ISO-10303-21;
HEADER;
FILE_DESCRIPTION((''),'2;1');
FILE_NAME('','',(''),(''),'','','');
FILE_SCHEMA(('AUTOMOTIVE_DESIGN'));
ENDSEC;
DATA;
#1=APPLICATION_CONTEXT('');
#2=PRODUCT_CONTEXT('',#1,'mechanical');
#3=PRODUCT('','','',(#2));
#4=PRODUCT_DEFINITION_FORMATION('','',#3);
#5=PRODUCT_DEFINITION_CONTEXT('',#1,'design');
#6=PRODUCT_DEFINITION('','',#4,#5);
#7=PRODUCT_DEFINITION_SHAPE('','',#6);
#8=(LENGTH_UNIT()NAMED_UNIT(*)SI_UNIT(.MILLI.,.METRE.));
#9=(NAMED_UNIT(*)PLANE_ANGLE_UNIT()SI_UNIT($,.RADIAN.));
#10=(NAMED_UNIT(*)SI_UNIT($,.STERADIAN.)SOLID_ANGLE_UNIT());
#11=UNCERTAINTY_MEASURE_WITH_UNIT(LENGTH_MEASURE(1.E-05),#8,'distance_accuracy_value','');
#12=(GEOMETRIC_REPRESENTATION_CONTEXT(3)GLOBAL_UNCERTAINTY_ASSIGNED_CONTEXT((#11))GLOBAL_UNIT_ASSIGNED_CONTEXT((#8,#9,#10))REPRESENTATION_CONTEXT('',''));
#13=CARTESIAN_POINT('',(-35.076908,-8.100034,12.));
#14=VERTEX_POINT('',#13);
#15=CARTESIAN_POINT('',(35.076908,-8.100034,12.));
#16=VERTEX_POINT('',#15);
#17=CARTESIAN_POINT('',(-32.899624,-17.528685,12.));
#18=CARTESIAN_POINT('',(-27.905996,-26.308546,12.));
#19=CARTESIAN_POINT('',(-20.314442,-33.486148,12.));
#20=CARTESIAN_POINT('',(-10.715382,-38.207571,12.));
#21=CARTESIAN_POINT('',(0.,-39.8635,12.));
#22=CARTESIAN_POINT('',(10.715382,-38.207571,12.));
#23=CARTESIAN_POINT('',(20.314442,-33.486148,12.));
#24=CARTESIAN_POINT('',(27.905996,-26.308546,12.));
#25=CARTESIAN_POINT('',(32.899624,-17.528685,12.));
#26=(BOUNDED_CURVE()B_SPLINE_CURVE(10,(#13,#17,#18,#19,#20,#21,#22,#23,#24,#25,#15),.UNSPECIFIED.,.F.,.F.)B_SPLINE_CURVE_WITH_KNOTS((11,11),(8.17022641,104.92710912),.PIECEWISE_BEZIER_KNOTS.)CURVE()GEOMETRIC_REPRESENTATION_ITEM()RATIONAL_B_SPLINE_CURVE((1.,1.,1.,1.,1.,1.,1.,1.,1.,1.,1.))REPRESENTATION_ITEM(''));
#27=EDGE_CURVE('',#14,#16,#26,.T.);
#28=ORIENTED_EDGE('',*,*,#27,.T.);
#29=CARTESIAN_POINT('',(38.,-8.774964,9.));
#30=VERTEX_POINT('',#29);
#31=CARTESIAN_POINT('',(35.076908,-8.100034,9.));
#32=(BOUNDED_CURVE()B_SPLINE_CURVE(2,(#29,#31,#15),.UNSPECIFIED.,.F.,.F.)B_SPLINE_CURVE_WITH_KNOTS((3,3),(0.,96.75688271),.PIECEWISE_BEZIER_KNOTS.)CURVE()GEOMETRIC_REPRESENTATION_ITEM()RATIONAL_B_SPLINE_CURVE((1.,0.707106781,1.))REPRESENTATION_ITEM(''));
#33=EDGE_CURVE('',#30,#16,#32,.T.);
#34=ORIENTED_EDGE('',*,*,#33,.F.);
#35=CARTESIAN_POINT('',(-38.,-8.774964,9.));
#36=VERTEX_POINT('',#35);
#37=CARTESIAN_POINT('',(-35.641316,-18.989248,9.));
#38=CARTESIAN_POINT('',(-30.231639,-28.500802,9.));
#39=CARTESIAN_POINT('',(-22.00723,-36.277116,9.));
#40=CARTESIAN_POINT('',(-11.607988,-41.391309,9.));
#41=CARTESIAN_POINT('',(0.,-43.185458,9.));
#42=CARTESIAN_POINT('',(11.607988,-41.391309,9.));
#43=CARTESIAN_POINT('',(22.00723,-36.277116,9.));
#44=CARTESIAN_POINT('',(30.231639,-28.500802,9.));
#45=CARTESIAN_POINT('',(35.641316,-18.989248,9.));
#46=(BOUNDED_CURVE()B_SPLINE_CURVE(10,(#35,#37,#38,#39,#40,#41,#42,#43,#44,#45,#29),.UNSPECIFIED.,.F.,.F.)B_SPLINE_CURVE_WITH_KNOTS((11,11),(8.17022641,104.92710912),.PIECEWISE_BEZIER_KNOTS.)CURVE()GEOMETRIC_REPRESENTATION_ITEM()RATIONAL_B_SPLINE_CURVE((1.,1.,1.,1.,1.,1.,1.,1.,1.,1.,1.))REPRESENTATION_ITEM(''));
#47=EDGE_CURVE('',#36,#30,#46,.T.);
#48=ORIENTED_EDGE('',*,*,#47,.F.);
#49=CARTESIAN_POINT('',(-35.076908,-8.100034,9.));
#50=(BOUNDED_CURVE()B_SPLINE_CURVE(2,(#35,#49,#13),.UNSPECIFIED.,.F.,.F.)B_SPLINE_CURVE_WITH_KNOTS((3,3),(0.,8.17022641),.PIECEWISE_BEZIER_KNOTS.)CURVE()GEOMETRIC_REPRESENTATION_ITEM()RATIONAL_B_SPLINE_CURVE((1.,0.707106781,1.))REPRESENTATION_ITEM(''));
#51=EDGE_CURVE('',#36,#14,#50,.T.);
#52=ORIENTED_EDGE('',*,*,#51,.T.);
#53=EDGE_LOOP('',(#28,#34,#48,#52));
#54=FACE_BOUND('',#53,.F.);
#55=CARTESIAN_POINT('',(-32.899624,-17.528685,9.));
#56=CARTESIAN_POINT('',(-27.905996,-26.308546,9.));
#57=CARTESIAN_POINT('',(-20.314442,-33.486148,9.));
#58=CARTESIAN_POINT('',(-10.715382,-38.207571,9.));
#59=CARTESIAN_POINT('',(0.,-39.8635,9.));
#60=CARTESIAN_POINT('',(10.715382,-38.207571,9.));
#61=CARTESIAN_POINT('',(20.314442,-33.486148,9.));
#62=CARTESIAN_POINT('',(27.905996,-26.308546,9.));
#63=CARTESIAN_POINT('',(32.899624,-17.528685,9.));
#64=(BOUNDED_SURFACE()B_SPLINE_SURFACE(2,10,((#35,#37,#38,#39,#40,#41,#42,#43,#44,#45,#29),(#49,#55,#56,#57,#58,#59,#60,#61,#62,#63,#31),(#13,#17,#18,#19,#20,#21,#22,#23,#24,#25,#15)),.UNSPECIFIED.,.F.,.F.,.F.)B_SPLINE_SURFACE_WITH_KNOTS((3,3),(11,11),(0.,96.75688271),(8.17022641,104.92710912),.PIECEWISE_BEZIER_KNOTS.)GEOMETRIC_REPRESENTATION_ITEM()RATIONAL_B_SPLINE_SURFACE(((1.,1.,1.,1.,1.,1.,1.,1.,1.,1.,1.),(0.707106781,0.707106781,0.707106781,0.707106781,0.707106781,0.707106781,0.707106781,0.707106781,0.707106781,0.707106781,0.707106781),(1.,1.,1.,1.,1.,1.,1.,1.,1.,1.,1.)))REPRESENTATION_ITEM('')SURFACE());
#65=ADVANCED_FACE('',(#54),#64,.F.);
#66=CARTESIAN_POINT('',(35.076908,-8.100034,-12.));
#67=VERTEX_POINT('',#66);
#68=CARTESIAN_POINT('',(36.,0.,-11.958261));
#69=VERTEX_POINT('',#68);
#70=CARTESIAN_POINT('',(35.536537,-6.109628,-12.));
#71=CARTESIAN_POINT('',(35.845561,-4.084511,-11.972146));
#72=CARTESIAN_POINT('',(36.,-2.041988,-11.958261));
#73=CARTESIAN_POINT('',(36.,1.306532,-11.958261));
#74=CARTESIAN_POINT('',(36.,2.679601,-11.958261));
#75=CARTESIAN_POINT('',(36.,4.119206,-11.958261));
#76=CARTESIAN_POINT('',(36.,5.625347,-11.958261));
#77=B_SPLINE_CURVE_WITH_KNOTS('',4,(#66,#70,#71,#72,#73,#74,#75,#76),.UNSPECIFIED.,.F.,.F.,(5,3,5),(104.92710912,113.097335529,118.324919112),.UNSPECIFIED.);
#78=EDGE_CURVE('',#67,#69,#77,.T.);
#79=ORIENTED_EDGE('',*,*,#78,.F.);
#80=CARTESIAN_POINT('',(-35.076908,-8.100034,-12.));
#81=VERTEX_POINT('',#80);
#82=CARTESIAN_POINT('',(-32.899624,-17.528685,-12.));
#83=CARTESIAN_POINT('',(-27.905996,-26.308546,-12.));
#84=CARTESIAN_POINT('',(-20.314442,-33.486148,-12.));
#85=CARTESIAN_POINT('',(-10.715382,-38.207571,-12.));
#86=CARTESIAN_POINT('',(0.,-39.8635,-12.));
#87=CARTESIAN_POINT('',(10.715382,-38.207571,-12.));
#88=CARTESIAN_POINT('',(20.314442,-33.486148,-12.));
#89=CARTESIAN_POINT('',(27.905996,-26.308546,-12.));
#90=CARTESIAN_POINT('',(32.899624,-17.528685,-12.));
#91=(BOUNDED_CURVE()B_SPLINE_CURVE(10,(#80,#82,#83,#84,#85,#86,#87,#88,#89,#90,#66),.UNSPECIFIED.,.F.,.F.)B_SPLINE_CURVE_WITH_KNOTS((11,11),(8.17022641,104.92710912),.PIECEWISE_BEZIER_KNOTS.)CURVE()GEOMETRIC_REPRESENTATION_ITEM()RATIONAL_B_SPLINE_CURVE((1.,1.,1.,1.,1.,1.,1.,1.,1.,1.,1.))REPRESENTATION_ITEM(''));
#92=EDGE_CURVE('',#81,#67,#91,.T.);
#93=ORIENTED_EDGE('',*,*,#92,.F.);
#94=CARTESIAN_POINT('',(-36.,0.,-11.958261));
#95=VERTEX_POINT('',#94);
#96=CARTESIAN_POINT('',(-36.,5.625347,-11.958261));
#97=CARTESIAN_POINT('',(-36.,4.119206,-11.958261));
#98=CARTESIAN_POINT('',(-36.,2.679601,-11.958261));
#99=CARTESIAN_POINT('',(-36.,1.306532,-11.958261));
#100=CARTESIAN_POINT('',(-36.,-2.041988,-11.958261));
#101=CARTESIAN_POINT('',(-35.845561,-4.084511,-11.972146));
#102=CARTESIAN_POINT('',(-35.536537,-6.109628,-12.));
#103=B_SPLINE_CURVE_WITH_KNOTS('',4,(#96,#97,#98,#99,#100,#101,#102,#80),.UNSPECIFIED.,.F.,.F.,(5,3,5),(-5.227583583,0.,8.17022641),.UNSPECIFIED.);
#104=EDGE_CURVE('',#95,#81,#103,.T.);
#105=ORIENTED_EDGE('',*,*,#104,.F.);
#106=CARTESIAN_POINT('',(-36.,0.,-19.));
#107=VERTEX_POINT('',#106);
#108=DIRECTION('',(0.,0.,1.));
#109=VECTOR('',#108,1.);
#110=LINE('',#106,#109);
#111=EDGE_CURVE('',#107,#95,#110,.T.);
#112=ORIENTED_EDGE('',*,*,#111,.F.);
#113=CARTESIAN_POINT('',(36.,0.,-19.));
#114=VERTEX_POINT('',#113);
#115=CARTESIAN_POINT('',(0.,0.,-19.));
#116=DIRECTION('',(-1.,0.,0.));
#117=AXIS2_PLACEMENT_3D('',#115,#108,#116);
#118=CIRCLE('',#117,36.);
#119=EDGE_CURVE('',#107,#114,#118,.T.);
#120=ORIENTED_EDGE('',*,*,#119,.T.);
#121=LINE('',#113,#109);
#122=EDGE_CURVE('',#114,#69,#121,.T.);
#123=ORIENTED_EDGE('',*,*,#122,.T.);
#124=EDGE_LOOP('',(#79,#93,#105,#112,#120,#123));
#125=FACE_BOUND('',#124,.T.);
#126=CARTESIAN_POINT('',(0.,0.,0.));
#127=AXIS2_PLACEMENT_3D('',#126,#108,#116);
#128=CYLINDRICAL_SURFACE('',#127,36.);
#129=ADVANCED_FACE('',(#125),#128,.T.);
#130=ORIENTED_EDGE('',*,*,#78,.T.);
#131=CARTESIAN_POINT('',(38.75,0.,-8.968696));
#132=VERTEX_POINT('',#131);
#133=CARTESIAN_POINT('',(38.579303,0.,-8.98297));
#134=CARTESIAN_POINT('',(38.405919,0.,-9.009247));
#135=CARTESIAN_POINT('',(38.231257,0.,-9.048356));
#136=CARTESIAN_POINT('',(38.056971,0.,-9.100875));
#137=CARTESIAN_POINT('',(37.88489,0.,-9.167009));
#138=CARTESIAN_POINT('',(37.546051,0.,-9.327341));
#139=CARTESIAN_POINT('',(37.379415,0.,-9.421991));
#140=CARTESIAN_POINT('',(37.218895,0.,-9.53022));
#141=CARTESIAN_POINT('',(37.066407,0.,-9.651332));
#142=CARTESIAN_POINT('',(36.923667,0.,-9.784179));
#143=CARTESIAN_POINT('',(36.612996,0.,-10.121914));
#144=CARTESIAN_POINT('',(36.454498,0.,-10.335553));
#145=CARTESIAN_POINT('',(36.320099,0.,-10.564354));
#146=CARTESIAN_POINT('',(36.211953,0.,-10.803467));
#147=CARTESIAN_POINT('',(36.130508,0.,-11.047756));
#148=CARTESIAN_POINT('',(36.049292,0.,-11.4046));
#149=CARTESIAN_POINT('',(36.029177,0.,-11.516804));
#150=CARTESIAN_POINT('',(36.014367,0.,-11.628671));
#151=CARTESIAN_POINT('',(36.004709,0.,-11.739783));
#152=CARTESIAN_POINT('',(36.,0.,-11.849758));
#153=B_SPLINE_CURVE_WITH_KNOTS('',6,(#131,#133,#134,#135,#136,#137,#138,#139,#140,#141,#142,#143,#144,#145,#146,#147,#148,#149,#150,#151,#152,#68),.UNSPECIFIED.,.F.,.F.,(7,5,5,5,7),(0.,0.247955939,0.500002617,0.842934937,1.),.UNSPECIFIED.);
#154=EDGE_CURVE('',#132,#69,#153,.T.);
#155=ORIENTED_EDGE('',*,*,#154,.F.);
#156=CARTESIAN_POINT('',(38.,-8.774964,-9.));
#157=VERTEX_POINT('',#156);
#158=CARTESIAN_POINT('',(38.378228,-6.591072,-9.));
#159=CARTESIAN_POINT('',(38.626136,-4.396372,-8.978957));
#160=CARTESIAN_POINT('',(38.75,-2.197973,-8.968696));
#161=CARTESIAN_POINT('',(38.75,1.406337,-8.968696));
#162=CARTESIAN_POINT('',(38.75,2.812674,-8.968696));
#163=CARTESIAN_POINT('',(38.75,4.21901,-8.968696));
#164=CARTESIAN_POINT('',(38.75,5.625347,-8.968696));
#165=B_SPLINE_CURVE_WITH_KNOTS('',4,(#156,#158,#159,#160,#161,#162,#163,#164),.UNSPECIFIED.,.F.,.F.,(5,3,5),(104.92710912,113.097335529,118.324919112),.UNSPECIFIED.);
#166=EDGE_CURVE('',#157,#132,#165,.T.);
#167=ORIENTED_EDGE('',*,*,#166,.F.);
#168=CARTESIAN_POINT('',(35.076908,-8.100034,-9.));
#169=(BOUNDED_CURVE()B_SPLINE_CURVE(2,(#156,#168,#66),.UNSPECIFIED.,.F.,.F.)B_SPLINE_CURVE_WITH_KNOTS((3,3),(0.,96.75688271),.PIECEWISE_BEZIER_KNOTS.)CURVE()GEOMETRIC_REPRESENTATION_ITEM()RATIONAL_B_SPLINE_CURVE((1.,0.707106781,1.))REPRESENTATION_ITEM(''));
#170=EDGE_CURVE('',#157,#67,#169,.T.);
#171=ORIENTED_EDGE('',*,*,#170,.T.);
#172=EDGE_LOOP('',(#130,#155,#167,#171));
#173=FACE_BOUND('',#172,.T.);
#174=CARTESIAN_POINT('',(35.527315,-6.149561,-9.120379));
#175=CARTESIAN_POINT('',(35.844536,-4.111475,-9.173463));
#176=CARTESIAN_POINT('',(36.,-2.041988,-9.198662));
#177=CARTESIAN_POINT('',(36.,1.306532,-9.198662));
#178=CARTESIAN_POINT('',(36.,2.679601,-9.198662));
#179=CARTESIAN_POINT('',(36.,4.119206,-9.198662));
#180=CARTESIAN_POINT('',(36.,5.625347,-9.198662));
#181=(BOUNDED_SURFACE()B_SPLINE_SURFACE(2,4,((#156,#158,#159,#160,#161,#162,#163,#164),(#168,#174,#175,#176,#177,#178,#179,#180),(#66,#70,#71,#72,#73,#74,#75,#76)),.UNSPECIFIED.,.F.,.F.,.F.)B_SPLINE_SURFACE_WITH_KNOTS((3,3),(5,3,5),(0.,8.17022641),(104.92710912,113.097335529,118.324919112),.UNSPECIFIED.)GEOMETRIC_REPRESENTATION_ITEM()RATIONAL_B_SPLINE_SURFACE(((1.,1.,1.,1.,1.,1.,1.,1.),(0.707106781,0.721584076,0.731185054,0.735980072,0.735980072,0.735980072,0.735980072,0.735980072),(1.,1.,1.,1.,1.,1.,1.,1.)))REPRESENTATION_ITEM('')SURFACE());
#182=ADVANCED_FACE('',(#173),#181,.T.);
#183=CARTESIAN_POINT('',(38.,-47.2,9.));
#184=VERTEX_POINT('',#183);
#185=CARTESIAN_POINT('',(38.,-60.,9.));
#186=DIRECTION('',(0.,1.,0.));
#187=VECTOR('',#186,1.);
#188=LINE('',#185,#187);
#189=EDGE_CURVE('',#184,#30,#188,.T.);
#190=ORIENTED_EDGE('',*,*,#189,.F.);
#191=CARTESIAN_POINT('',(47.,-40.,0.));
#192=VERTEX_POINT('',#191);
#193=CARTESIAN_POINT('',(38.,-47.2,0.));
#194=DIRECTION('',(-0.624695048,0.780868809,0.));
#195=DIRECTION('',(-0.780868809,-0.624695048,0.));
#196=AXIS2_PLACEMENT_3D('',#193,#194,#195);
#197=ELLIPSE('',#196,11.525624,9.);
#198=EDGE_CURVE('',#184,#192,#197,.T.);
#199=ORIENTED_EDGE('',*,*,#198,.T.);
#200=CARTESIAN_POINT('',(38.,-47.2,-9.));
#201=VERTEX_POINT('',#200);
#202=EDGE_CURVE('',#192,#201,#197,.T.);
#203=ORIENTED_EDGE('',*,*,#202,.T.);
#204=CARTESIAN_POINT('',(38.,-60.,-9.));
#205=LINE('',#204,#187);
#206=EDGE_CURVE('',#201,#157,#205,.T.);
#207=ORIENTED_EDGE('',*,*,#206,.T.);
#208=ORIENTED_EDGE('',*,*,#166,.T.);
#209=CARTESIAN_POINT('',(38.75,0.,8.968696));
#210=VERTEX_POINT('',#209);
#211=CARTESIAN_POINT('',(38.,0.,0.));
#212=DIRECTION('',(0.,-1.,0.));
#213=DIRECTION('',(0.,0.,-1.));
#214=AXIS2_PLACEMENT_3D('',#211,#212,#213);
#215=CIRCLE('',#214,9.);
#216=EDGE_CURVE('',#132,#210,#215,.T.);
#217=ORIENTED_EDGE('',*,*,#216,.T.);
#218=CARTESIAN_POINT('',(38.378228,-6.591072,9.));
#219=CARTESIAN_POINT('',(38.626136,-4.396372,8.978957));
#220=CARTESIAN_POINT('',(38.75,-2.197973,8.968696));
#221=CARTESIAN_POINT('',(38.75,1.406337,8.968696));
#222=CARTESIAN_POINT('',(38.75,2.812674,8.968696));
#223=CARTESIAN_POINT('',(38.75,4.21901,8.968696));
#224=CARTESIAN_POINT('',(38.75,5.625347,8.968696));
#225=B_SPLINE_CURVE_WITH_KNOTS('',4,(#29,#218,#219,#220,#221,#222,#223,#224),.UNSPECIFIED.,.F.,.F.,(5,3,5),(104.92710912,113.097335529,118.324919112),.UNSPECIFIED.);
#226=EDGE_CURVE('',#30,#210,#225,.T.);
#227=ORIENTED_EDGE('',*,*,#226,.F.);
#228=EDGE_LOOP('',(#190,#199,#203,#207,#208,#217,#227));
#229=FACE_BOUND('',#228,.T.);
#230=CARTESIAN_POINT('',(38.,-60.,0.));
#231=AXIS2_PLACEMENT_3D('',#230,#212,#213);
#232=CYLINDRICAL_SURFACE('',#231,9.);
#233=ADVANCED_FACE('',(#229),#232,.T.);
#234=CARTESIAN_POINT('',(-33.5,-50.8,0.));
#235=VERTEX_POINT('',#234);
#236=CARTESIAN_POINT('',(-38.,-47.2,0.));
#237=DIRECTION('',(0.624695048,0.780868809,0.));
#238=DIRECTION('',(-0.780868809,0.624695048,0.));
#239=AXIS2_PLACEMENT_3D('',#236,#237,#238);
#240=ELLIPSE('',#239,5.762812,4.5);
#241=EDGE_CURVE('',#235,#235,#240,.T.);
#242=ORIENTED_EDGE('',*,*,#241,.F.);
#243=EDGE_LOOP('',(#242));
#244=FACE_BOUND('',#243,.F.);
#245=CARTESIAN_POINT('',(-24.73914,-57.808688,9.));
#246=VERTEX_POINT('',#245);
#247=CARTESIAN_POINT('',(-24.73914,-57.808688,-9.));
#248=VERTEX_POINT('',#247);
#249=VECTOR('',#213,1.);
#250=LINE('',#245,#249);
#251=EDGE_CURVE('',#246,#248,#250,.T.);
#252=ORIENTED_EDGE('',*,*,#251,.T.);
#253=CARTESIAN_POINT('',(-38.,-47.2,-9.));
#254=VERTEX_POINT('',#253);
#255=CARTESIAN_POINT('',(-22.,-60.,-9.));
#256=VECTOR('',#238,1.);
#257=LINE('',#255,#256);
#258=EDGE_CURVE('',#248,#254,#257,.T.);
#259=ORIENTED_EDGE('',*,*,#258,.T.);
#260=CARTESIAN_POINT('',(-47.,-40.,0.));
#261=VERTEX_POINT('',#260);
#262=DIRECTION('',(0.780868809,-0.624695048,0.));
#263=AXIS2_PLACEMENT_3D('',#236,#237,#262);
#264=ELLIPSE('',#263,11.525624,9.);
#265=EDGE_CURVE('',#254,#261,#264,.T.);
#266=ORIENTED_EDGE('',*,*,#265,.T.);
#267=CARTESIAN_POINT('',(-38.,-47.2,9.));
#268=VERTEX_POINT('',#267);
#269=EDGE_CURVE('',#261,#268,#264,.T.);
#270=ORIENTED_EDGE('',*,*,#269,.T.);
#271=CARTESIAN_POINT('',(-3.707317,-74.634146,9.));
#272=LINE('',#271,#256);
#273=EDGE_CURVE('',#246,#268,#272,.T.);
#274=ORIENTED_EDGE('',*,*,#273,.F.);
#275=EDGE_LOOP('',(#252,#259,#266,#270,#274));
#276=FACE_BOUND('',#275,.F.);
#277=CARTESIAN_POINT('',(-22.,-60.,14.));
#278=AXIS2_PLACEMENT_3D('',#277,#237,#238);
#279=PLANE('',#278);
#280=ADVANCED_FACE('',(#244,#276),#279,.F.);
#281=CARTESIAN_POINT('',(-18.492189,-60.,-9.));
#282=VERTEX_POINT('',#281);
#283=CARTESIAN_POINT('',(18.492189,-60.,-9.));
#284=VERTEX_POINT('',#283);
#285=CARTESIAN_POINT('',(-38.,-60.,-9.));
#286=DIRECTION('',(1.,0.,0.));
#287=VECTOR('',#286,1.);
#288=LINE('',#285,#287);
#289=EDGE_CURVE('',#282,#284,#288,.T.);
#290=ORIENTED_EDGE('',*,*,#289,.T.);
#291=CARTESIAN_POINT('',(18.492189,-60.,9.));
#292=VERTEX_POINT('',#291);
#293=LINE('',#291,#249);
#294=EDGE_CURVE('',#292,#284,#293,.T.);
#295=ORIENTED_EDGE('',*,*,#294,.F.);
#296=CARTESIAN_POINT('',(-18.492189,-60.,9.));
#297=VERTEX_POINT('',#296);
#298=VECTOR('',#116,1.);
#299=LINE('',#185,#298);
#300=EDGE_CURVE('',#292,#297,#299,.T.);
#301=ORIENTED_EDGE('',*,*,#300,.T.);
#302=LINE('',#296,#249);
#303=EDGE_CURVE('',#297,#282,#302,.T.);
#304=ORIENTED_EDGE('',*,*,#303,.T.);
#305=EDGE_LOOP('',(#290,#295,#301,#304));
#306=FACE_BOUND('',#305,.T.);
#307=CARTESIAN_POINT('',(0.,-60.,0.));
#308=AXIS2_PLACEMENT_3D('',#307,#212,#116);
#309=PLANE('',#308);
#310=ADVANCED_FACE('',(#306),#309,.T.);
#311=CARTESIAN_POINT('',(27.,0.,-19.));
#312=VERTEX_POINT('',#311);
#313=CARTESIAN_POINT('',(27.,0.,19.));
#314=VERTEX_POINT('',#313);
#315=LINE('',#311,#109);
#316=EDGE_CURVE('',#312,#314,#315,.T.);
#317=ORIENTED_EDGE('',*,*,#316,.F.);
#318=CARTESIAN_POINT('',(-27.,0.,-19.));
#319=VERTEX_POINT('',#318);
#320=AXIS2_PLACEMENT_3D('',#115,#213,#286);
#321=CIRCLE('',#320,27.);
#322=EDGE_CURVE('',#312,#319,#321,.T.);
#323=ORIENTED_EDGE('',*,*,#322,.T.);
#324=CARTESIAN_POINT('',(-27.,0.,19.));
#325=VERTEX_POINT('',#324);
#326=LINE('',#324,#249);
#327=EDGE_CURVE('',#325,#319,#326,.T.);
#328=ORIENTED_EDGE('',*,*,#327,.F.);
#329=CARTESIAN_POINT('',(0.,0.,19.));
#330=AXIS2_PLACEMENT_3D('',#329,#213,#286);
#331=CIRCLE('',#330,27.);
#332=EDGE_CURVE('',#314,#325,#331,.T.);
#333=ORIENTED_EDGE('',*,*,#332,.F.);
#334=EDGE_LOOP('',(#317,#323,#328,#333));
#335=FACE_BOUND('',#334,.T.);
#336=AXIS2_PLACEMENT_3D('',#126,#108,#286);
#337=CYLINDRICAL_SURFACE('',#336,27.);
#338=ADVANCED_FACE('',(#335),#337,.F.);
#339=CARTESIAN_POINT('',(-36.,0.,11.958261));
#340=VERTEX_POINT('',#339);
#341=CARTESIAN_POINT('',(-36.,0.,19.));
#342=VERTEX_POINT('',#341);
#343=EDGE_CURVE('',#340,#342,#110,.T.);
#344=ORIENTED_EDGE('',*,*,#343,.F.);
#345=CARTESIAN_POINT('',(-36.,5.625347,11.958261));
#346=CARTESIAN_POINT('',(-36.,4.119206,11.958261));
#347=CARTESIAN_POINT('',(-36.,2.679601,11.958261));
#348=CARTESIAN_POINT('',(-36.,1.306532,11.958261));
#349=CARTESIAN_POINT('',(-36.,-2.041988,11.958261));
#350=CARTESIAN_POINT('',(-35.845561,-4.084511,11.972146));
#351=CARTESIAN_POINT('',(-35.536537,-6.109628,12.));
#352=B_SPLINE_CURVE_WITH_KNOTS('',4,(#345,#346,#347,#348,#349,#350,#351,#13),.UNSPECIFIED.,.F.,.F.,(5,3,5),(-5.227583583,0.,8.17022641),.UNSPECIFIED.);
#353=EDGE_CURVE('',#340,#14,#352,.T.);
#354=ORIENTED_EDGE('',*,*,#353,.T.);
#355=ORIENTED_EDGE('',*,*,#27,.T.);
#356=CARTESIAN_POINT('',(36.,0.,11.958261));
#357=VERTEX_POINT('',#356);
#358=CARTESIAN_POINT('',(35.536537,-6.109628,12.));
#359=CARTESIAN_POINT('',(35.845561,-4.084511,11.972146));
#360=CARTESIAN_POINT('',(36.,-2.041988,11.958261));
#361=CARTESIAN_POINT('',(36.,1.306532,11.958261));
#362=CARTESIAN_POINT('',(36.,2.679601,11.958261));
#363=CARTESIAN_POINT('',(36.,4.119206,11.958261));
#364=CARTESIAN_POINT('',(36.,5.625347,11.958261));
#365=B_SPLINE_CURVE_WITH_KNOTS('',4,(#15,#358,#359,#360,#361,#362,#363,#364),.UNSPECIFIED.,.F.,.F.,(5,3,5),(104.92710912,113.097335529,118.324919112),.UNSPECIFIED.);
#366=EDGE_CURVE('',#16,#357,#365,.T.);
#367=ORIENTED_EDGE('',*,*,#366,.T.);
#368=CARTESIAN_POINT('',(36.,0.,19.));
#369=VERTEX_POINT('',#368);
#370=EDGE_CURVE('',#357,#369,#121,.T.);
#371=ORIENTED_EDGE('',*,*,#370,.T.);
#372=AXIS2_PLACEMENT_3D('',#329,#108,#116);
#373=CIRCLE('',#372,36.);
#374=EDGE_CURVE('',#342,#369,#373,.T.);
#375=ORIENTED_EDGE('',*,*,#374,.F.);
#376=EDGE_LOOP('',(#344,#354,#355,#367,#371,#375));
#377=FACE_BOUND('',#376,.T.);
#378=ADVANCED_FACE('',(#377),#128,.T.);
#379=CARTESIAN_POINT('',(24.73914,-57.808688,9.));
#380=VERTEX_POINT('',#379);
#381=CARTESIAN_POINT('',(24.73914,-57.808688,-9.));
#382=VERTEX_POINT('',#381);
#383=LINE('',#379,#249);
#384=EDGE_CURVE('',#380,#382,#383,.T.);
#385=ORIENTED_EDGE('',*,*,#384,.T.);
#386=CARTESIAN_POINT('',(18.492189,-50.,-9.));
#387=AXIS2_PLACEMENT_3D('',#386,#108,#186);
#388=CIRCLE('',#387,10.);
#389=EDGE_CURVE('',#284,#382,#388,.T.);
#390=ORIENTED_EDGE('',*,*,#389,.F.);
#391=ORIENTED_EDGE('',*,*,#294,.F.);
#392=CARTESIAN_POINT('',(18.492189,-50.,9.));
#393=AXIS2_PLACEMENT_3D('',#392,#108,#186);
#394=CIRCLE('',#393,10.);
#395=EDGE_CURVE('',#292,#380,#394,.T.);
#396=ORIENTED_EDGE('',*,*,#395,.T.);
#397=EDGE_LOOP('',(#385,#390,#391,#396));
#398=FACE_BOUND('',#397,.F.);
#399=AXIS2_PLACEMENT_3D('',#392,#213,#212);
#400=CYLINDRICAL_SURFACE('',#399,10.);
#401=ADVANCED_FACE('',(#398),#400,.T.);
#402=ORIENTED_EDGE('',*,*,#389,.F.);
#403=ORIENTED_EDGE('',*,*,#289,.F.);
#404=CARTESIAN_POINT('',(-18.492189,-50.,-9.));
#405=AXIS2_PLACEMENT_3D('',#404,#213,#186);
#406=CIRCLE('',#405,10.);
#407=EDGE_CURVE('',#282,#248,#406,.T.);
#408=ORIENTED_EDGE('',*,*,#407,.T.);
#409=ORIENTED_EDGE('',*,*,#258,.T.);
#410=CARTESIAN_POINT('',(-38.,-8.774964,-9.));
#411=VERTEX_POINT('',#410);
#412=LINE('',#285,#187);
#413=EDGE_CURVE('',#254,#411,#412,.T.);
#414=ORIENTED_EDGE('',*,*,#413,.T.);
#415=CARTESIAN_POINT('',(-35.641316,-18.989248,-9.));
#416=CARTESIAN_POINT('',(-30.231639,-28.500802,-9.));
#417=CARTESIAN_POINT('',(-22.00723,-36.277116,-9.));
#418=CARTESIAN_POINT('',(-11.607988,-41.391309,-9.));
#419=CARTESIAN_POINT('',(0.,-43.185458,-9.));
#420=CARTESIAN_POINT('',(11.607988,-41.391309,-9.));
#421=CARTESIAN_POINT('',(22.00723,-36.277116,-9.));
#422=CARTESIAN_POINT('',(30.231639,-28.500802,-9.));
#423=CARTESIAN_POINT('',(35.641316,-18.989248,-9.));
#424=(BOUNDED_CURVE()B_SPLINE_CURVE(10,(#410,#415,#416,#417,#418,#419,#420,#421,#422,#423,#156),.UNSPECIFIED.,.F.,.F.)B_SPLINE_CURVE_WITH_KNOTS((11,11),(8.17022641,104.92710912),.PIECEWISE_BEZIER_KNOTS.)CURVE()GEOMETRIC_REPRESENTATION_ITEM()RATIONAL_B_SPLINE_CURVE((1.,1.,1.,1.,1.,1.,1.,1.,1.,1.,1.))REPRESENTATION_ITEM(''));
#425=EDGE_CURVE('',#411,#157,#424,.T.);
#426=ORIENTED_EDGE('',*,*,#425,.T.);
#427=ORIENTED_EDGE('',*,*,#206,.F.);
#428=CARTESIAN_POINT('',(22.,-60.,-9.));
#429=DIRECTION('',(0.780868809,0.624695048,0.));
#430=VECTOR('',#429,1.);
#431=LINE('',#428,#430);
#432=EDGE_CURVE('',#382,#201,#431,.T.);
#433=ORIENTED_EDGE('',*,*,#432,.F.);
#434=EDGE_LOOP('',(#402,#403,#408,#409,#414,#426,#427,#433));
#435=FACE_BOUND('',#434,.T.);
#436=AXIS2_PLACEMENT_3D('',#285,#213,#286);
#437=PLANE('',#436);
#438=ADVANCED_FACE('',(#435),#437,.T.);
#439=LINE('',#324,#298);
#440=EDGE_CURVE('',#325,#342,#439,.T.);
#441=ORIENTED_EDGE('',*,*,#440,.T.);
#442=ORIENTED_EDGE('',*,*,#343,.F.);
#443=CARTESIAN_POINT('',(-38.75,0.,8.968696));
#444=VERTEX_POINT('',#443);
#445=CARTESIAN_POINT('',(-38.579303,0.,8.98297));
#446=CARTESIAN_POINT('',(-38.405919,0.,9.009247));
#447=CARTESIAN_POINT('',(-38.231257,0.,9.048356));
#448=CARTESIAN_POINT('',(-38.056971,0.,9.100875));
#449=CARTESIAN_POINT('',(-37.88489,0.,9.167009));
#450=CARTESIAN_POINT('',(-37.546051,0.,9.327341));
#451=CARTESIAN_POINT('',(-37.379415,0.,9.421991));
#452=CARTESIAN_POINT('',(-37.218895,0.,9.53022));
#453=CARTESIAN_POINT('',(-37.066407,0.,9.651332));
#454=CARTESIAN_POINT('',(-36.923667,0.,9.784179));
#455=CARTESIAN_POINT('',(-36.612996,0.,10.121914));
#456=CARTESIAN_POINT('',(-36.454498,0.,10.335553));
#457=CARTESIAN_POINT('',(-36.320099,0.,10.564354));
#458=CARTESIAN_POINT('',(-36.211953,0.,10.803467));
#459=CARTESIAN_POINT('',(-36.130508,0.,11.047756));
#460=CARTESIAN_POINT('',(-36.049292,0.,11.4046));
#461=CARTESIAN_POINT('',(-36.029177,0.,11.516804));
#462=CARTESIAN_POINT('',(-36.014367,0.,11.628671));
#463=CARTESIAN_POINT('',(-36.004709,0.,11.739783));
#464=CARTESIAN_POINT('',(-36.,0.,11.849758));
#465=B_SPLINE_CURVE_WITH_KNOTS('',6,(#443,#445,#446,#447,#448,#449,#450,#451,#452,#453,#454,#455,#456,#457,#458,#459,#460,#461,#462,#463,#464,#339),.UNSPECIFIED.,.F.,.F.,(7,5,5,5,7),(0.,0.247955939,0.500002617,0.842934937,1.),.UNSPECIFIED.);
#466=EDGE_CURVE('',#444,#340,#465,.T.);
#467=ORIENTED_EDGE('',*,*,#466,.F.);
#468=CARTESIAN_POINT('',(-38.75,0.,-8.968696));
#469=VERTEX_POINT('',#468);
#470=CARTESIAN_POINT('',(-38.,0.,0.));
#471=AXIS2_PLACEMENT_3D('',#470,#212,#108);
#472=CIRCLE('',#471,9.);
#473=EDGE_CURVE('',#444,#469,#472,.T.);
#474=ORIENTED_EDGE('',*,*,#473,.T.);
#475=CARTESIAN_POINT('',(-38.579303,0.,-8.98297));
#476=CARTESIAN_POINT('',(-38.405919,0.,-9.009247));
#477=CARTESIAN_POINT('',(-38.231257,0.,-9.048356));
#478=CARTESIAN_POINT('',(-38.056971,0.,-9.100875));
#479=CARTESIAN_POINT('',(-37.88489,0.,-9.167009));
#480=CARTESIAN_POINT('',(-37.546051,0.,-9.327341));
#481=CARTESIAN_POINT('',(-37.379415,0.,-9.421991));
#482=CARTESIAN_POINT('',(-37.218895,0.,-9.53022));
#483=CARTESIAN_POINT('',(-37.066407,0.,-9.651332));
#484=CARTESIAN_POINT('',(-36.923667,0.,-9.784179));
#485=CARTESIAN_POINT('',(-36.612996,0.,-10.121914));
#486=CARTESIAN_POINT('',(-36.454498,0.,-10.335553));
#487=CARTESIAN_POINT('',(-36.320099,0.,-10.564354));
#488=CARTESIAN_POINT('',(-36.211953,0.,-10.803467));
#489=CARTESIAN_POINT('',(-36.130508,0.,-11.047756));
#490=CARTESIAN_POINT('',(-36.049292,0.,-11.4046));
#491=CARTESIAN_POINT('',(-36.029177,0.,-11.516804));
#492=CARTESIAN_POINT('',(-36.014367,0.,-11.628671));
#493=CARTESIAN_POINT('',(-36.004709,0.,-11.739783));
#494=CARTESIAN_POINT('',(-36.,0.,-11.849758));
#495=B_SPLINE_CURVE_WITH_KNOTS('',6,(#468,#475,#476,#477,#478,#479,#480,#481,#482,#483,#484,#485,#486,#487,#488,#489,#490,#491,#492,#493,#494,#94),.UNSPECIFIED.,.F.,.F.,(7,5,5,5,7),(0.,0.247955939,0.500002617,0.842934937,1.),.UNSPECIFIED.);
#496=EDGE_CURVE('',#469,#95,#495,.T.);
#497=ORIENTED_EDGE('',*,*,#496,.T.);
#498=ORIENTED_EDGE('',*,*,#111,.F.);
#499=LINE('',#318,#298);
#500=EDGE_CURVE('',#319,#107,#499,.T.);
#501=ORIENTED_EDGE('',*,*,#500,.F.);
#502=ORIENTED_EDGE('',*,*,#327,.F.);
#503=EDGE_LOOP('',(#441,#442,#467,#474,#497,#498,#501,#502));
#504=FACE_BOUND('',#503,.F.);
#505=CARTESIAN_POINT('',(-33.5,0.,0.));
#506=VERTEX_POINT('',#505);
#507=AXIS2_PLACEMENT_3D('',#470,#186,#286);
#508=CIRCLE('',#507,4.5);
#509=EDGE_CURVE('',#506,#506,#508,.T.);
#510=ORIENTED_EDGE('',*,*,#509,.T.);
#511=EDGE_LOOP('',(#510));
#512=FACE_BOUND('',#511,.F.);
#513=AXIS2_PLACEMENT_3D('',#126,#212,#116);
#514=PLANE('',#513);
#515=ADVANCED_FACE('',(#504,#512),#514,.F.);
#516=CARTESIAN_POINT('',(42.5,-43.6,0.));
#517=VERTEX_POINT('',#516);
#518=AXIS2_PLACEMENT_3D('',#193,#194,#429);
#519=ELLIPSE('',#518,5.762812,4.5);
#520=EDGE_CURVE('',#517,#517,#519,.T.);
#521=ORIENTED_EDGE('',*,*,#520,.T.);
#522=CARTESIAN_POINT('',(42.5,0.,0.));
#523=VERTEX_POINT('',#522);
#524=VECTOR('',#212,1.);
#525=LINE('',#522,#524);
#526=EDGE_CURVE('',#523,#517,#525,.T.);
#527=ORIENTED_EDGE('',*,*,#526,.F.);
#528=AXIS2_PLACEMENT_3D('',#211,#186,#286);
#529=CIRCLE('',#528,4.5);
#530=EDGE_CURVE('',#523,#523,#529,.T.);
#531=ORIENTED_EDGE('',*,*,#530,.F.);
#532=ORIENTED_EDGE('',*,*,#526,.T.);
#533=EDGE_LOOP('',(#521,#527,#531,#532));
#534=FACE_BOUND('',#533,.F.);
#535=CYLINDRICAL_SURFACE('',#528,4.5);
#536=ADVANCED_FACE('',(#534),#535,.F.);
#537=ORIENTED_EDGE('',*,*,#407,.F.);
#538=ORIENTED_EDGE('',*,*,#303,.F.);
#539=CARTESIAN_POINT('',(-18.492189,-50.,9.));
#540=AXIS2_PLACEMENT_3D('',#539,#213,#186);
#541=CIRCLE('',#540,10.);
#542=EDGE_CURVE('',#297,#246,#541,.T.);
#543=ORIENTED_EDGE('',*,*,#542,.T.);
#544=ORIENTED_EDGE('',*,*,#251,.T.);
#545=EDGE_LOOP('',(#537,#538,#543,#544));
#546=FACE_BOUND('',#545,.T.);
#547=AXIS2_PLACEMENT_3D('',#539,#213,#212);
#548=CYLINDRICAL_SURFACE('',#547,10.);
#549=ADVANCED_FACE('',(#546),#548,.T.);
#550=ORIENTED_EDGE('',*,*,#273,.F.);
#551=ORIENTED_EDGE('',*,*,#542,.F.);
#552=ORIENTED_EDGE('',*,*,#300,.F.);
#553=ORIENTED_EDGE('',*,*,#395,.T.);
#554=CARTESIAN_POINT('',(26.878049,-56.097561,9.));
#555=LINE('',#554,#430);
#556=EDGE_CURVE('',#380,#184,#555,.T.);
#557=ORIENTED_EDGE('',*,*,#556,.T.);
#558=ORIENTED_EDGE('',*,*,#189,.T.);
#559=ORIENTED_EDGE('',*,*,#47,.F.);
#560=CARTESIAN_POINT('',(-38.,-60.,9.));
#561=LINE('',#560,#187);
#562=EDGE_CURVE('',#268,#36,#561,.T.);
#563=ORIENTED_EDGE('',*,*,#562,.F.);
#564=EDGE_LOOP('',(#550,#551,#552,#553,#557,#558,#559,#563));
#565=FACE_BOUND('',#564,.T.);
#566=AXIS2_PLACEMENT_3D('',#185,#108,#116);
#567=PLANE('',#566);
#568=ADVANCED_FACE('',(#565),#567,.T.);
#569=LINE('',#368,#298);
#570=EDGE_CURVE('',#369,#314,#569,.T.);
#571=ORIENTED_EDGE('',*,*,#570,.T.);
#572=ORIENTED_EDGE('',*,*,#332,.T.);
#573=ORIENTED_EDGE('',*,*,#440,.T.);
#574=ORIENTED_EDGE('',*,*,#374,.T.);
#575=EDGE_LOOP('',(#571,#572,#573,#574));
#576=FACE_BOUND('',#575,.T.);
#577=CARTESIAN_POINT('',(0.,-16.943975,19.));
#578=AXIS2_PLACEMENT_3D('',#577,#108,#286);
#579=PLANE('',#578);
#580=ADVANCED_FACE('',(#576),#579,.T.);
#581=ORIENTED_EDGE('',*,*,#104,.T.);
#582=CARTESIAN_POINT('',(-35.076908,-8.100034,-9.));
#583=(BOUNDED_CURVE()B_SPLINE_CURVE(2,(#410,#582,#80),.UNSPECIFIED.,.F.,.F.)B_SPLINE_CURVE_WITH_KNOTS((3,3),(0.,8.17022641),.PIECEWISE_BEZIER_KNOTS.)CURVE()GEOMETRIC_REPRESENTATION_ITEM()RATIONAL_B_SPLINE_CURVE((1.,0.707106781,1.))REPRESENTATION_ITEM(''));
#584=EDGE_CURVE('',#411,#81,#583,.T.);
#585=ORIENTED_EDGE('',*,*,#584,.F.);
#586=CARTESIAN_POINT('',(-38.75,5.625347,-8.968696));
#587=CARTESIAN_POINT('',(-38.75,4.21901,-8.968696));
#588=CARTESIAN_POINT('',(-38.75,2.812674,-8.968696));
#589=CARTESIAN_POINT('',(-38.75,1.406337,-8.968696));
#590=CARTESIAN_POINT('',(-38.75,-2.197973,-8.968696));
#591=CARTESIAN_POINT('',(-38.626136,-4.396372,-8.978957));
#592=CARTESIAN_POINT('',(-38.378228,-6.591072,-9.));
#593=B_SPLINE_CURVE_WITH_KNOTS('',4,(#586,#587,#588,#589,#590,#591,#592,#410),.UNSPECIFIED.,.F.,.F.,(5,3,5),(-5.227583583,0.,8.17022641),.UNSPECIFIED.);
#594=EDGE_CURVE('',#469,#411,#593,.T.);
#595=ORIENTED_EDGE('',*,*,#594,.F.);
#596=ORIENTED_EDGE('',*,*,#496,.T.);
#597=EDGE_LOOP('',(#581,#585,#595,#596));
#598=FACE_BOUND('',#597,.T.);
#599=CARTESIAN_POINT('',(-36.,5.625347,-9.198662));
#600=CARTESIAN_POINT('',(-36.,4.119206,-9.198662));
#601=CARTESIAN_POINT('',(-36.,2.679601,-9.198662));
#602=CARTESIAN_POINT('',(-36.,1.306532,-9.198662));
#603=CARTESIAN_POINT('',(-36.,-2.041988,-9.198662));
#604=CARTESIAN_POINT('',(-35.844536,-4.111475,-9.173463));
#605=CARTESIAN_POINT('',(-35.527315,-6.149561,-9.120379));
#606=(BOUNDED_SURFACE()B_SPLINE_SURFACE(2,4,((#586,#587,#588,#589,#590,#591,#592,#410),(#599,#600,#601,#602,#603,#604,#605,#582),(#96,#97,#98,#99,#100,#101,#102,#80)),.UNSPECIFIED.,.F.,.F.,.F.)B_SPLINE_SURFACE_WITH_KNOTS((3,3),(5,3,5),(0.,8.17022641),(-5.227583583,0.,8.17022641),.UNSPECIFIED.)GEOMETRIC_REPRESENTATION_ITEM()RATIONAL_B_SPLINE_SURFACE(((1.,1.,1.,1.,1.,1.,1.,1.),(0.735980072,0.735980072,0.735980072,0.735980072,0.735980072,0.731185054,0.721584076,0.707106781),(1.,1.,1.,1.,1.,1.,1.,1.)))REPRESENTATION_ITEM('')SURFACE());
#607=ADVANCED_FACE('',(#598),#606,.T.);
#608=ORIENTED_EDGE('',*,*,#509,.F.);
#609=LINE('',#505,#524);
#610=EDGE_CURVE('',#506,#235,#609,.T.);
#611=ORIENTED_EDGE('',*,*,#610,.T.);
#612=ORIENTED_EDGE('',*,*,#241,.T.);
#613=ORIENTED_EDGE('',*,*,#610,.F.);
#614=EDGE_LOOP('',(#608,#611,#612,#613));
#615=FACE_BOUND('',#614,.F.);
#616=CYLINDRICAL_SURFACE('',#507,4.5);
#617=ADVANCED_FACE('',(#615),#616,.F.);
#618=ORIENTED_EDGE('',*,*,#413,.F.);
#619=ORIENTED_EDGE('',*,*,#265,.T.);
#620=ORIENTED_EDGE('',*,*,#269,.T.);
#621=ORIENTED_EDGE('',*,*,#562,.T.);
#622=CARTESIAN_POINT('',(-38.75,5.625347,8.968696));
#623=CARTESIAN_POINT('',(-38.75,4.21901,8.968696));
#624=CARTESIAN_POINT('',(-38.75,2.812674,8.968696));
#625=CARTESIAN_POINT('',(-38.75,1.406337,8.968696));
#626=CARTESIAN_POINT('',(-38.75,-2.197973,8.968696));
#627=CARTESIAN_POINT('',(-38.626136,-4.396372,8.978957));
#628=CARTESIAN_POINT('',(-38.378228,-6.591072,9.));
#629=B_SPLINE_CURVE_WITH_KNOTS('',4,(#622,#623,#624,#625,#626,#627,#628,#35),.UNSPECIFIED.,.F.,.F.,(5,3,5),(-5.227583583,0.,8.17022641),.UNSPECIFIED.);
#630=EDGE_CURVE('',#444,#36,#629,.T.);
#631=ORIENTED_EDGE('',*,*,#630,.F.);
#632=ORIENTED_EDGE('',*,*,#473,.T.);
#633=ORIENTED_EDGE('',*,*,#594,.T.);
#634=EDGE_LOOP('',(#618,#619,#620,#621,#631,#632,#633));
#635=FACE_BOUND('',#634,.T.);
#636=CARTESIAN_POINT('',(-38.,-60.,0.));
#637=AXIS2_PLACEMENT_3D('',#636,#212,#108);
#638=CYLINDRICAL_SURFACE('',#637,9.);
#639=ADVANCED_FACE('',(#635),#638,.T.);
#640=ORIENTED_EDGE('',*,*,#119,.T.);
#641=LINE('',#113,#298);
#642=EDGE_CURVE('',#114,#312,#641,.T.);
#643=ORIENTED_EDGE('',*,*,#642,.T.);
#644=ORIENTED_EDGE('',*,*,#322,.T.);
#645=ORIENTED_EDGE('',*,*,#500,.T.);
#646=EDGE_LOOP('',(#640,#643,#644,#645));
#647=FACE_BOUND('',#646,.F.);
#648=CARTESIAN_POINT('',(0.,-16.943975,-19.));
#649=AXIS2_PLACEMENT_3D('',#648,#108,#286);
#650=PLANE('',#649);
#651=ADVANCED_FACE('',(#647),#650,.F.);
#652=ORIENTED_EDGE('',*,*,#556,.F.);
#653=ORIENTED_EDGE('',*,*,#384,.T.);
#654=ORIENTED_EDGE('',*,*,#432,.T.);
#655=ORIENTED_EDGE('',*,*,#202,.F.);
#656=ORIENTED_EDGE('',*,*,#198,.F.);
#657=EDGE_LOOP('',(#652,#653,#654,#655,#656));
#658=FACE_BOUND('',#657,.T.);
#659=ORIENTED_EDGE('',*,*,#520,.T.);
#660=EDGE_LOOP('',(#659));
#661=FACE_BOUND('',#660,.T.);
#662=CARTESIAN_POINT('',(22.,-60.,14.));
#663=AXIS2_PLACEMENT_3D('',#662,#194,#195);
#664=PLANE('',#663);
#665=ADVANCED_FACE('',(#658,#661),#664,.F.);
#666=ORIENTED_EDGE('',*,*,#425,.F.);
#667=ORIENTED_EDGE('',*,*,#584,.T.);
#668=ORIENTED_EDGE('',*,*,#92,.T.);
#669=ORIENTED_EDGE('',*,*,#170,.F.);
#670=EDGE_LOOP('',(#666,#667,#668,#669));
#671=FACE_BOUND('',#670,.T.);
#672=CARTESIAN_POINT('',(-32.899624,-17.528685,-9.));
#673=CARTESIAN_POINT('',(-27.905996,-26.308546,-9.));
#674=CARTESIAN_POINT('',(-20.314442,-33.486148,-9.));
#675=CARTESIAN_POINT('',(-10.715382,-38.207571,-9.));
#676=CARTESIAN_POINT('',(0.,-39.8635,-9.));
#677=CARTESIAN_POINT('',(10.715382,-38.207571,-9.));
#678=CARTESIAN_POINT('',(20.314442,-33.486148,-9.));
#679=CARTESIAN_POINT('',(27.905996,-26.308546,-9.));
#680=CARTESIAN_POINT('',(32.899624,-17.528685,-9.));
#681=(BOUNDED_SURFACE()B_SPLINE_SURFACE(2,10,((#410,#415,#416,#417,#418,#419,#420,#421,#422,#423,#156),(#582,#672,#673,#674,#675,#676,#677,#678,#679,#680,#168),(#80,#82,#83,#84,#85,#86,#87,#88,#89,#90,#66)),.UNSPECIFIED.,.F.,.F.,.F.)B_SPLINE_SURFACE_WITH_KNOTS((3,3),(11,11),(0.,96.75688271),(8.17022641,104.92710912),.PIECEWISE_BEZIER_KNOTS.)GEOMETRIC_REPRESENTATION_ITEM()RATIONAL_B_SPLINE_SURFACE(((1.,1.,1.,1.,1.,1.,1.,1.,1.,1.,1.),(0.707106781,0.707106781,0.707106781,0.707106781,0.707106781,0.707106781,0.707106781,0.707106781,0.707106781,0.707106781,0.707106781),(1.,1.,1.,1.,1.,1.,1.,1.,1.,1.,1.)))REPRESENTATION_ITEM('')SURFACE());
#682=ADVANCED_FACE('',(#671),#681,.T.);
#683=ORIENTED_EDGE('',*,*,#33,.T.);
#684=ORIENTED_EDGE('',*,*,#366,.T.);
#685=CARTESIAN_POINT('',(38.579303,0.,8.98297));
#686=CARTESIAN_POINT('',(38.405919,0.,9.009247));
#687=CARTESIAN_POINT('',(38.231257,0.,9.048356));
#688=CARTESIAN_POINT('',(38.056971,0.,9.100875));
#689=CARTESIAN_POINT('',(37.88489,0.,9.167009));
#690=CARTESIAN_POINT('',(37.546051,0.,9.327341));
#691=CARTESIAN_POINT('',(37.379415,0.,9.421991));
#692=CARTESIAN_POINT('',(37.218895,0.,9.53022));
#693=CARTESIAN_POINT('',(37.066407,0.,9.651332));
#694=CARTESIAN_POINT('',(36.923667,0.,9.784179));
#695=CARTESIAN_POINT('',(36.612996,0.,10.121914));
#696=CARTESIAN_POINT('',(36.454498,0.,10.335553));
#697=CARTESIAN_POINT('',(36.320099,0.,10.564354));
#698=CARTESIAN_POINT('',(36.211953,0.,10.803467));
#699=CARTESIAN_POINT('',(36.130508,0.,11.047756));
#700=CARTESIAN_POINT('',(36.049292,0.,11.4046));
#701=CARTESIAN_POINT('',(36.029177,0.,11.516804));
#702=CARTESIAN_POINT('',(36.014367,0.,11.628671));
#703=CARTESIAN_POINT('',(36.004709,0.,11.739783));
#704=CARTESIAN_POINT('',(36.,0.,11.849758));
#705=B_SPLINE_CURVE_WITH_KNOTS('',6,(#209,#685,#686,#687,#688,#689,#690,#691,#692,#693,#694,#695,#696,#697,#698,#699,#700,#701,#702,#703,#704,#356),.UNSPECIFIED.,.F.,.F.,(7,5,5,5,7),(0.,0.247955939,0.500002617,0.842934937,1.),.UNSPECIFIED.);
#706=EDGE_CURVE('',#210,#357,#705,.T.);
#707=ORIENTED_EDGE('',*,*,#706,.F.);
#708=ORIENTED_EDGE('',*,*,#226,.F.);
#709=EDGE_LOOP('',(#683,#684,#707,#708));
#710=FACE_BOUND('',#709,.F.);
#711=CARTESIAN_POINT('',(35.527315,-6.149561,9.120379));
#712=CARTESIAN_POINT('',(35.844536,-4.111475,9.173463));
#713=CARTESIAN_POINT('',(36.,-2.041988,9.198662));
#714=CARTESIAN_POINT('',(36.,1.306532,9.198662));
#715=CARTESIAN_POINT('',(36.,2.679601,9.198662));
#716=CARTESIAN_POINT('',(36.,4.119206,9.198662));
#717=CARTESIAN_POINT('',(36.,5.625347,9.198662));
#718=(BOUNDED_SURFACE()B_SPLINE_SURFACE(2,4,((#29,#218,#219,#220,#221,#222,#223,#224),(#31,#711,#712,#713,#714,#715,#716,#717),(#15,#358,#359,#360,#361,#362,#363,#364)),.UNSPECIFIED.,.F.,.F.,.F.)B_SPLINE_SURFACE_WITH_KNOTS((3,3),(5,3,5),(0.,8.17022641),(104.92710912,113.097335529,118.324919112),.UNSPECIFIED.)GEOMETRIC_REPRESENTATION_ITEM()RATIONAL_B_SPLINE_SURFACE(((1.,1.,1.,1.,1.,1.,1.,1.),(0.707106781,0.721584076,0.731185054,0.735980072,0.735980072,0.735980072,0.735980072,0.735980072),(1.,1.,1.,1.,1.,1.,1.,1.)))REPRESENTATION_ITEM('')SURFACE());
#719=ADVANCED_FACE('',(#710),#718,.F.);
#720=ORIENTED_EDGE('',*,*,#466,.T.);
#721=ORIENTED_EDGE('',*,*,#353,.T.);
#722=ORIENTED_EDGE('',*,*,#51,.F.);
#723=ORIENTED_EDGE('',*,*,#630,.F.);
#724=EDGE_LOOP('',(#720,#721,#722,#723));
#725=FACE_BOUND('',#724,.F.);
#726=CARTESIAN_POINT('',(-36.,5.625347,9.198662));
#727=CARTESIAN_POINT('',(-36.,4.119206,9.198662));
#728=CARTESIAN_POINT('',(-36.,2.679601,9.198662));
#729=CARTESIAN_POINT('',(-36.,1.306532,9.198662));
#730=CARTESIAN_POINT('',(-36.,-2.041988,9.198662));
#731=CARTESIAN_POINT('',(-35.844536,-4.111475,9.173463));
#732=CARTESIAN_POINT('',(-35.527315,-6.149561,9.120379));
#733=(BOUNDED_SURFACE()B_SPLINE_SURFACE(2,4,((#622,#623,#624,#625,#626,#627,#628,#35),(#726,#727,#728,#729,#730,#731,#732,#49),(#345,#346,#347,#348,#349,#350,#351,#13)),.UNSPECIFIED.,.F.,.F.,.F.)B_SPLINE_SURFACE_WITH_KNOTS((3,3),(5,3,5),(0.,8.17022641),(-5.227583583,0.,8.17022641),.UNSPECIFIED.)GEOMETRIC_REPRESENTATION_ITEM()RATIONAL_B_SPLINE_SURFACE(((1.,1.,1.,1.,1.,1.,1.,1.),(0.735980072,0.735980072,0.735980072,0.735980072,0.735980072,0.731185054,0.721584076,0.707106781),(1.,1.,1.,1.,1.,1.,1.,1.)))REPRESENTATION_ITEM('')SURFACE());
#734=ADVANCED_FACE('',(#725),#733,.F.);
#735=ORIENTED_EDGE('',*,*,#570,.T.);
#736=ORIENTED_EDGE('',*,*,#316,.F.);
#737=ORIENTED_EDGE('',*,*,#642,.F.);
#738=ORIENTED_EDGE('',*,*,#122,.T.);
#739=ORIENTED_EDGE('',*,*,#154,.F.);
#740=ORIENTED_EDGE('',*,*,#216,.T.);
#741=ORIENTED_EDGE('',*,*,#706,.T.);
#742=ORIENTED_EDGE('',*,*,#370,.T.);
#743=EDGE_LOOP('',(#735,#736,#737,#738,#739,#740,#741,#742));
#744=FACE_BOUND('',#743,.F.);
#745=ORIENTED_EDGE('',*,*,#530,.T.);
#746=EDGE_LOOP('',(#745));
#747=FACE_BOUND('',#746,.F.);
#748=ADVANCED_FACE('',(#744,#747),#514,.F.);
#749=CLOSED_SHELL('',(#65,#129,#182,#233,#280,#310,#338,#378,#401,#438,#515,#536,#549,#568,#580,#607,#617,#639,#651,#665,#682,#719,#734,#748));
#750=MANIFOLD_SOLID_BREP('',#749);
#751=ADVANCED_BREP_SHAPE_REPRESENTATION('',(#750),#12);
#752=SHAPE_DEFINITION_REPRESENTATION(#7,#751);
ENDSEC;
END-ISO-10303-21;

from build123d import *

# Parameters (mm, degrees)
BOSS_EXTRUDE3_DEPTH = 19
BOSS_EXTRUDE4_DEPTH = 60
CUT_EXTRUDE3_REACH  = 30
CUT_EXTRUDE4_REACH  = 62
SKETCH11_R          = 4.5
CUT_EXTRUDE5_DEPTH  = 23
FILLET2_R           = 10
FILLET3_R           = 3


with BuildPart() as part:
    # Sketch7 → Boss-Extrude3 (new body, symmetric)
    with BuildSketch(Plane.XY):
        with BuildLine():
            Line((-27, 0), (-36, 0))
            ThreePointArc((-36, 0), (0, -36), (36, 0))
            Line((36, 0), (27, 0))
            ThreePointArc((27, 0), (0, -27), (-27, 0))
        make_face()
    extrude(amount=BOSS_EXTRUDE3_DEPTH, both=True)

    # Sketch9 → Boss-Extrude4 (add)
    with BuildSketch(Plane(origin=(0, -60, 0), x_dir=(1, 0, 0), z_dir=(0, 1, 0))):
        with BuildLine():
            Line((-38, 9), (38, 9))
            ThreePointArc((38, 9), (47, 0), (38, -9))
            Line((38, -9), (-38, -9))
            ThreePointArc((-38, -9), (-47, 0), (-38, 9))
        make_face()
    extrude(amount=BOSS_EXTRUDE4_DEPTH)

    # Sketch10 → Cut-Extrude3 (cut, up to next)
    with BuildSketch(Plane.XY.offset(9), mode=Mode.PRIVATE) as cut_extrude3_sk1:
        with BuildLine():
            Line((27, 0), (-27, 0))
            ThreePointArc((-27, 0), (0, -27), (27, 0))
        make_face()
    cut_extrude3_tool1 = extrude(cut_extrude3_sk1.sketch, amount=-CUT_EXTRUDE3_REACH, mode=Mode.PRIVATE) & part.part
    add(cut_extrude3_tool1.solids().sort_by_distance((0, -11.459156, 9))[0], mode=Mode.SUBTRACT)

    # Sketch11 → Cut-Extrude4 (cut, up to next)
    with BuildSketch(Plane(origin=(0, 0, 0), x_dir=(1, 0, 0), z_dir=(0, 1, 0)), mode=Mode.PRIVATE) as cut_extrude4_sk1:
        with Locations((38, 0)):
            Circle(SKETCH11_R)
    cut_extrude4_tool1 = extrude(cut_extrude4_sk1.sketch, amount=-CUT_EXTRUDE4_REACH, mode=Mode.PRIVATE) & part.part
    add(cut_extrude4_tool1.solids().sort_by_distance((38, 0, 0))[0], mode=Mode.SUBTRACT)
    # Sketch11 → Cut-Extrude4 (cut, up to next)
    with BuildSketch(Plane(origin=(0, 0, 0), x_dir=(1, 0, 0), z_dir=(0, 1, 0)), mode=Mode.PRIVATE) as cut_extrude4_sk2:
        with Locations((-38, 0)):
            Circle(SKETCH11_R)
    cut_extrude4_tool2 = extrude(cut_extrude4_sk2.sketch, amount=-CUT_EXTRUDE4_REACH, mode=Mode.PRIVATE) & part.part
    add(cut_extrude4_tool2.solids().sort_by_distance((-38, 0, 0))[0], mode=Mode.SUBTRACT)

    # Sketch12 → Cut-Extrude5 (cut)
    with BuildSketch(Plane.XY.offset(14)):
        Polygon((-47, -40), (-47, -60), (-38, -60), (-38, -47.2), align=None)
        Polygon((-38, -47.2), (-38, -60), (-22, -60), align=None)
    cut_extrude5 = extrude(amount=-CUT_EXTRUDE5_DEPTH, mode=Mode.SUBTRACT)

    # Mirror1: Cut-Extrude5 across plane
    add(cut_extrude5.mirror(Plane(origin=(0, 0, 0), x_dir=(0, 0, 1), z_dir=(1, 0, 0))), mode=Mode.SUBTRACT)

    # Fillet2
    fillet2_edges = [part.edges().sort_by_distance(p)[0] for p in [
        (-22, -60, 0),
        (22, -60, 0),
    ]]
    fillet(fillet2_edges, radius=FILLET2_R)

    # Fillet3
    fillet3_edges = [part.edges().sort_by_distance(p)[0] for p in [
        (0, -36, -9),
        (0, -36, 9),
    ]]
    fillet(fillet3_edges, radius=FILLET3_R)


solid = part.part
